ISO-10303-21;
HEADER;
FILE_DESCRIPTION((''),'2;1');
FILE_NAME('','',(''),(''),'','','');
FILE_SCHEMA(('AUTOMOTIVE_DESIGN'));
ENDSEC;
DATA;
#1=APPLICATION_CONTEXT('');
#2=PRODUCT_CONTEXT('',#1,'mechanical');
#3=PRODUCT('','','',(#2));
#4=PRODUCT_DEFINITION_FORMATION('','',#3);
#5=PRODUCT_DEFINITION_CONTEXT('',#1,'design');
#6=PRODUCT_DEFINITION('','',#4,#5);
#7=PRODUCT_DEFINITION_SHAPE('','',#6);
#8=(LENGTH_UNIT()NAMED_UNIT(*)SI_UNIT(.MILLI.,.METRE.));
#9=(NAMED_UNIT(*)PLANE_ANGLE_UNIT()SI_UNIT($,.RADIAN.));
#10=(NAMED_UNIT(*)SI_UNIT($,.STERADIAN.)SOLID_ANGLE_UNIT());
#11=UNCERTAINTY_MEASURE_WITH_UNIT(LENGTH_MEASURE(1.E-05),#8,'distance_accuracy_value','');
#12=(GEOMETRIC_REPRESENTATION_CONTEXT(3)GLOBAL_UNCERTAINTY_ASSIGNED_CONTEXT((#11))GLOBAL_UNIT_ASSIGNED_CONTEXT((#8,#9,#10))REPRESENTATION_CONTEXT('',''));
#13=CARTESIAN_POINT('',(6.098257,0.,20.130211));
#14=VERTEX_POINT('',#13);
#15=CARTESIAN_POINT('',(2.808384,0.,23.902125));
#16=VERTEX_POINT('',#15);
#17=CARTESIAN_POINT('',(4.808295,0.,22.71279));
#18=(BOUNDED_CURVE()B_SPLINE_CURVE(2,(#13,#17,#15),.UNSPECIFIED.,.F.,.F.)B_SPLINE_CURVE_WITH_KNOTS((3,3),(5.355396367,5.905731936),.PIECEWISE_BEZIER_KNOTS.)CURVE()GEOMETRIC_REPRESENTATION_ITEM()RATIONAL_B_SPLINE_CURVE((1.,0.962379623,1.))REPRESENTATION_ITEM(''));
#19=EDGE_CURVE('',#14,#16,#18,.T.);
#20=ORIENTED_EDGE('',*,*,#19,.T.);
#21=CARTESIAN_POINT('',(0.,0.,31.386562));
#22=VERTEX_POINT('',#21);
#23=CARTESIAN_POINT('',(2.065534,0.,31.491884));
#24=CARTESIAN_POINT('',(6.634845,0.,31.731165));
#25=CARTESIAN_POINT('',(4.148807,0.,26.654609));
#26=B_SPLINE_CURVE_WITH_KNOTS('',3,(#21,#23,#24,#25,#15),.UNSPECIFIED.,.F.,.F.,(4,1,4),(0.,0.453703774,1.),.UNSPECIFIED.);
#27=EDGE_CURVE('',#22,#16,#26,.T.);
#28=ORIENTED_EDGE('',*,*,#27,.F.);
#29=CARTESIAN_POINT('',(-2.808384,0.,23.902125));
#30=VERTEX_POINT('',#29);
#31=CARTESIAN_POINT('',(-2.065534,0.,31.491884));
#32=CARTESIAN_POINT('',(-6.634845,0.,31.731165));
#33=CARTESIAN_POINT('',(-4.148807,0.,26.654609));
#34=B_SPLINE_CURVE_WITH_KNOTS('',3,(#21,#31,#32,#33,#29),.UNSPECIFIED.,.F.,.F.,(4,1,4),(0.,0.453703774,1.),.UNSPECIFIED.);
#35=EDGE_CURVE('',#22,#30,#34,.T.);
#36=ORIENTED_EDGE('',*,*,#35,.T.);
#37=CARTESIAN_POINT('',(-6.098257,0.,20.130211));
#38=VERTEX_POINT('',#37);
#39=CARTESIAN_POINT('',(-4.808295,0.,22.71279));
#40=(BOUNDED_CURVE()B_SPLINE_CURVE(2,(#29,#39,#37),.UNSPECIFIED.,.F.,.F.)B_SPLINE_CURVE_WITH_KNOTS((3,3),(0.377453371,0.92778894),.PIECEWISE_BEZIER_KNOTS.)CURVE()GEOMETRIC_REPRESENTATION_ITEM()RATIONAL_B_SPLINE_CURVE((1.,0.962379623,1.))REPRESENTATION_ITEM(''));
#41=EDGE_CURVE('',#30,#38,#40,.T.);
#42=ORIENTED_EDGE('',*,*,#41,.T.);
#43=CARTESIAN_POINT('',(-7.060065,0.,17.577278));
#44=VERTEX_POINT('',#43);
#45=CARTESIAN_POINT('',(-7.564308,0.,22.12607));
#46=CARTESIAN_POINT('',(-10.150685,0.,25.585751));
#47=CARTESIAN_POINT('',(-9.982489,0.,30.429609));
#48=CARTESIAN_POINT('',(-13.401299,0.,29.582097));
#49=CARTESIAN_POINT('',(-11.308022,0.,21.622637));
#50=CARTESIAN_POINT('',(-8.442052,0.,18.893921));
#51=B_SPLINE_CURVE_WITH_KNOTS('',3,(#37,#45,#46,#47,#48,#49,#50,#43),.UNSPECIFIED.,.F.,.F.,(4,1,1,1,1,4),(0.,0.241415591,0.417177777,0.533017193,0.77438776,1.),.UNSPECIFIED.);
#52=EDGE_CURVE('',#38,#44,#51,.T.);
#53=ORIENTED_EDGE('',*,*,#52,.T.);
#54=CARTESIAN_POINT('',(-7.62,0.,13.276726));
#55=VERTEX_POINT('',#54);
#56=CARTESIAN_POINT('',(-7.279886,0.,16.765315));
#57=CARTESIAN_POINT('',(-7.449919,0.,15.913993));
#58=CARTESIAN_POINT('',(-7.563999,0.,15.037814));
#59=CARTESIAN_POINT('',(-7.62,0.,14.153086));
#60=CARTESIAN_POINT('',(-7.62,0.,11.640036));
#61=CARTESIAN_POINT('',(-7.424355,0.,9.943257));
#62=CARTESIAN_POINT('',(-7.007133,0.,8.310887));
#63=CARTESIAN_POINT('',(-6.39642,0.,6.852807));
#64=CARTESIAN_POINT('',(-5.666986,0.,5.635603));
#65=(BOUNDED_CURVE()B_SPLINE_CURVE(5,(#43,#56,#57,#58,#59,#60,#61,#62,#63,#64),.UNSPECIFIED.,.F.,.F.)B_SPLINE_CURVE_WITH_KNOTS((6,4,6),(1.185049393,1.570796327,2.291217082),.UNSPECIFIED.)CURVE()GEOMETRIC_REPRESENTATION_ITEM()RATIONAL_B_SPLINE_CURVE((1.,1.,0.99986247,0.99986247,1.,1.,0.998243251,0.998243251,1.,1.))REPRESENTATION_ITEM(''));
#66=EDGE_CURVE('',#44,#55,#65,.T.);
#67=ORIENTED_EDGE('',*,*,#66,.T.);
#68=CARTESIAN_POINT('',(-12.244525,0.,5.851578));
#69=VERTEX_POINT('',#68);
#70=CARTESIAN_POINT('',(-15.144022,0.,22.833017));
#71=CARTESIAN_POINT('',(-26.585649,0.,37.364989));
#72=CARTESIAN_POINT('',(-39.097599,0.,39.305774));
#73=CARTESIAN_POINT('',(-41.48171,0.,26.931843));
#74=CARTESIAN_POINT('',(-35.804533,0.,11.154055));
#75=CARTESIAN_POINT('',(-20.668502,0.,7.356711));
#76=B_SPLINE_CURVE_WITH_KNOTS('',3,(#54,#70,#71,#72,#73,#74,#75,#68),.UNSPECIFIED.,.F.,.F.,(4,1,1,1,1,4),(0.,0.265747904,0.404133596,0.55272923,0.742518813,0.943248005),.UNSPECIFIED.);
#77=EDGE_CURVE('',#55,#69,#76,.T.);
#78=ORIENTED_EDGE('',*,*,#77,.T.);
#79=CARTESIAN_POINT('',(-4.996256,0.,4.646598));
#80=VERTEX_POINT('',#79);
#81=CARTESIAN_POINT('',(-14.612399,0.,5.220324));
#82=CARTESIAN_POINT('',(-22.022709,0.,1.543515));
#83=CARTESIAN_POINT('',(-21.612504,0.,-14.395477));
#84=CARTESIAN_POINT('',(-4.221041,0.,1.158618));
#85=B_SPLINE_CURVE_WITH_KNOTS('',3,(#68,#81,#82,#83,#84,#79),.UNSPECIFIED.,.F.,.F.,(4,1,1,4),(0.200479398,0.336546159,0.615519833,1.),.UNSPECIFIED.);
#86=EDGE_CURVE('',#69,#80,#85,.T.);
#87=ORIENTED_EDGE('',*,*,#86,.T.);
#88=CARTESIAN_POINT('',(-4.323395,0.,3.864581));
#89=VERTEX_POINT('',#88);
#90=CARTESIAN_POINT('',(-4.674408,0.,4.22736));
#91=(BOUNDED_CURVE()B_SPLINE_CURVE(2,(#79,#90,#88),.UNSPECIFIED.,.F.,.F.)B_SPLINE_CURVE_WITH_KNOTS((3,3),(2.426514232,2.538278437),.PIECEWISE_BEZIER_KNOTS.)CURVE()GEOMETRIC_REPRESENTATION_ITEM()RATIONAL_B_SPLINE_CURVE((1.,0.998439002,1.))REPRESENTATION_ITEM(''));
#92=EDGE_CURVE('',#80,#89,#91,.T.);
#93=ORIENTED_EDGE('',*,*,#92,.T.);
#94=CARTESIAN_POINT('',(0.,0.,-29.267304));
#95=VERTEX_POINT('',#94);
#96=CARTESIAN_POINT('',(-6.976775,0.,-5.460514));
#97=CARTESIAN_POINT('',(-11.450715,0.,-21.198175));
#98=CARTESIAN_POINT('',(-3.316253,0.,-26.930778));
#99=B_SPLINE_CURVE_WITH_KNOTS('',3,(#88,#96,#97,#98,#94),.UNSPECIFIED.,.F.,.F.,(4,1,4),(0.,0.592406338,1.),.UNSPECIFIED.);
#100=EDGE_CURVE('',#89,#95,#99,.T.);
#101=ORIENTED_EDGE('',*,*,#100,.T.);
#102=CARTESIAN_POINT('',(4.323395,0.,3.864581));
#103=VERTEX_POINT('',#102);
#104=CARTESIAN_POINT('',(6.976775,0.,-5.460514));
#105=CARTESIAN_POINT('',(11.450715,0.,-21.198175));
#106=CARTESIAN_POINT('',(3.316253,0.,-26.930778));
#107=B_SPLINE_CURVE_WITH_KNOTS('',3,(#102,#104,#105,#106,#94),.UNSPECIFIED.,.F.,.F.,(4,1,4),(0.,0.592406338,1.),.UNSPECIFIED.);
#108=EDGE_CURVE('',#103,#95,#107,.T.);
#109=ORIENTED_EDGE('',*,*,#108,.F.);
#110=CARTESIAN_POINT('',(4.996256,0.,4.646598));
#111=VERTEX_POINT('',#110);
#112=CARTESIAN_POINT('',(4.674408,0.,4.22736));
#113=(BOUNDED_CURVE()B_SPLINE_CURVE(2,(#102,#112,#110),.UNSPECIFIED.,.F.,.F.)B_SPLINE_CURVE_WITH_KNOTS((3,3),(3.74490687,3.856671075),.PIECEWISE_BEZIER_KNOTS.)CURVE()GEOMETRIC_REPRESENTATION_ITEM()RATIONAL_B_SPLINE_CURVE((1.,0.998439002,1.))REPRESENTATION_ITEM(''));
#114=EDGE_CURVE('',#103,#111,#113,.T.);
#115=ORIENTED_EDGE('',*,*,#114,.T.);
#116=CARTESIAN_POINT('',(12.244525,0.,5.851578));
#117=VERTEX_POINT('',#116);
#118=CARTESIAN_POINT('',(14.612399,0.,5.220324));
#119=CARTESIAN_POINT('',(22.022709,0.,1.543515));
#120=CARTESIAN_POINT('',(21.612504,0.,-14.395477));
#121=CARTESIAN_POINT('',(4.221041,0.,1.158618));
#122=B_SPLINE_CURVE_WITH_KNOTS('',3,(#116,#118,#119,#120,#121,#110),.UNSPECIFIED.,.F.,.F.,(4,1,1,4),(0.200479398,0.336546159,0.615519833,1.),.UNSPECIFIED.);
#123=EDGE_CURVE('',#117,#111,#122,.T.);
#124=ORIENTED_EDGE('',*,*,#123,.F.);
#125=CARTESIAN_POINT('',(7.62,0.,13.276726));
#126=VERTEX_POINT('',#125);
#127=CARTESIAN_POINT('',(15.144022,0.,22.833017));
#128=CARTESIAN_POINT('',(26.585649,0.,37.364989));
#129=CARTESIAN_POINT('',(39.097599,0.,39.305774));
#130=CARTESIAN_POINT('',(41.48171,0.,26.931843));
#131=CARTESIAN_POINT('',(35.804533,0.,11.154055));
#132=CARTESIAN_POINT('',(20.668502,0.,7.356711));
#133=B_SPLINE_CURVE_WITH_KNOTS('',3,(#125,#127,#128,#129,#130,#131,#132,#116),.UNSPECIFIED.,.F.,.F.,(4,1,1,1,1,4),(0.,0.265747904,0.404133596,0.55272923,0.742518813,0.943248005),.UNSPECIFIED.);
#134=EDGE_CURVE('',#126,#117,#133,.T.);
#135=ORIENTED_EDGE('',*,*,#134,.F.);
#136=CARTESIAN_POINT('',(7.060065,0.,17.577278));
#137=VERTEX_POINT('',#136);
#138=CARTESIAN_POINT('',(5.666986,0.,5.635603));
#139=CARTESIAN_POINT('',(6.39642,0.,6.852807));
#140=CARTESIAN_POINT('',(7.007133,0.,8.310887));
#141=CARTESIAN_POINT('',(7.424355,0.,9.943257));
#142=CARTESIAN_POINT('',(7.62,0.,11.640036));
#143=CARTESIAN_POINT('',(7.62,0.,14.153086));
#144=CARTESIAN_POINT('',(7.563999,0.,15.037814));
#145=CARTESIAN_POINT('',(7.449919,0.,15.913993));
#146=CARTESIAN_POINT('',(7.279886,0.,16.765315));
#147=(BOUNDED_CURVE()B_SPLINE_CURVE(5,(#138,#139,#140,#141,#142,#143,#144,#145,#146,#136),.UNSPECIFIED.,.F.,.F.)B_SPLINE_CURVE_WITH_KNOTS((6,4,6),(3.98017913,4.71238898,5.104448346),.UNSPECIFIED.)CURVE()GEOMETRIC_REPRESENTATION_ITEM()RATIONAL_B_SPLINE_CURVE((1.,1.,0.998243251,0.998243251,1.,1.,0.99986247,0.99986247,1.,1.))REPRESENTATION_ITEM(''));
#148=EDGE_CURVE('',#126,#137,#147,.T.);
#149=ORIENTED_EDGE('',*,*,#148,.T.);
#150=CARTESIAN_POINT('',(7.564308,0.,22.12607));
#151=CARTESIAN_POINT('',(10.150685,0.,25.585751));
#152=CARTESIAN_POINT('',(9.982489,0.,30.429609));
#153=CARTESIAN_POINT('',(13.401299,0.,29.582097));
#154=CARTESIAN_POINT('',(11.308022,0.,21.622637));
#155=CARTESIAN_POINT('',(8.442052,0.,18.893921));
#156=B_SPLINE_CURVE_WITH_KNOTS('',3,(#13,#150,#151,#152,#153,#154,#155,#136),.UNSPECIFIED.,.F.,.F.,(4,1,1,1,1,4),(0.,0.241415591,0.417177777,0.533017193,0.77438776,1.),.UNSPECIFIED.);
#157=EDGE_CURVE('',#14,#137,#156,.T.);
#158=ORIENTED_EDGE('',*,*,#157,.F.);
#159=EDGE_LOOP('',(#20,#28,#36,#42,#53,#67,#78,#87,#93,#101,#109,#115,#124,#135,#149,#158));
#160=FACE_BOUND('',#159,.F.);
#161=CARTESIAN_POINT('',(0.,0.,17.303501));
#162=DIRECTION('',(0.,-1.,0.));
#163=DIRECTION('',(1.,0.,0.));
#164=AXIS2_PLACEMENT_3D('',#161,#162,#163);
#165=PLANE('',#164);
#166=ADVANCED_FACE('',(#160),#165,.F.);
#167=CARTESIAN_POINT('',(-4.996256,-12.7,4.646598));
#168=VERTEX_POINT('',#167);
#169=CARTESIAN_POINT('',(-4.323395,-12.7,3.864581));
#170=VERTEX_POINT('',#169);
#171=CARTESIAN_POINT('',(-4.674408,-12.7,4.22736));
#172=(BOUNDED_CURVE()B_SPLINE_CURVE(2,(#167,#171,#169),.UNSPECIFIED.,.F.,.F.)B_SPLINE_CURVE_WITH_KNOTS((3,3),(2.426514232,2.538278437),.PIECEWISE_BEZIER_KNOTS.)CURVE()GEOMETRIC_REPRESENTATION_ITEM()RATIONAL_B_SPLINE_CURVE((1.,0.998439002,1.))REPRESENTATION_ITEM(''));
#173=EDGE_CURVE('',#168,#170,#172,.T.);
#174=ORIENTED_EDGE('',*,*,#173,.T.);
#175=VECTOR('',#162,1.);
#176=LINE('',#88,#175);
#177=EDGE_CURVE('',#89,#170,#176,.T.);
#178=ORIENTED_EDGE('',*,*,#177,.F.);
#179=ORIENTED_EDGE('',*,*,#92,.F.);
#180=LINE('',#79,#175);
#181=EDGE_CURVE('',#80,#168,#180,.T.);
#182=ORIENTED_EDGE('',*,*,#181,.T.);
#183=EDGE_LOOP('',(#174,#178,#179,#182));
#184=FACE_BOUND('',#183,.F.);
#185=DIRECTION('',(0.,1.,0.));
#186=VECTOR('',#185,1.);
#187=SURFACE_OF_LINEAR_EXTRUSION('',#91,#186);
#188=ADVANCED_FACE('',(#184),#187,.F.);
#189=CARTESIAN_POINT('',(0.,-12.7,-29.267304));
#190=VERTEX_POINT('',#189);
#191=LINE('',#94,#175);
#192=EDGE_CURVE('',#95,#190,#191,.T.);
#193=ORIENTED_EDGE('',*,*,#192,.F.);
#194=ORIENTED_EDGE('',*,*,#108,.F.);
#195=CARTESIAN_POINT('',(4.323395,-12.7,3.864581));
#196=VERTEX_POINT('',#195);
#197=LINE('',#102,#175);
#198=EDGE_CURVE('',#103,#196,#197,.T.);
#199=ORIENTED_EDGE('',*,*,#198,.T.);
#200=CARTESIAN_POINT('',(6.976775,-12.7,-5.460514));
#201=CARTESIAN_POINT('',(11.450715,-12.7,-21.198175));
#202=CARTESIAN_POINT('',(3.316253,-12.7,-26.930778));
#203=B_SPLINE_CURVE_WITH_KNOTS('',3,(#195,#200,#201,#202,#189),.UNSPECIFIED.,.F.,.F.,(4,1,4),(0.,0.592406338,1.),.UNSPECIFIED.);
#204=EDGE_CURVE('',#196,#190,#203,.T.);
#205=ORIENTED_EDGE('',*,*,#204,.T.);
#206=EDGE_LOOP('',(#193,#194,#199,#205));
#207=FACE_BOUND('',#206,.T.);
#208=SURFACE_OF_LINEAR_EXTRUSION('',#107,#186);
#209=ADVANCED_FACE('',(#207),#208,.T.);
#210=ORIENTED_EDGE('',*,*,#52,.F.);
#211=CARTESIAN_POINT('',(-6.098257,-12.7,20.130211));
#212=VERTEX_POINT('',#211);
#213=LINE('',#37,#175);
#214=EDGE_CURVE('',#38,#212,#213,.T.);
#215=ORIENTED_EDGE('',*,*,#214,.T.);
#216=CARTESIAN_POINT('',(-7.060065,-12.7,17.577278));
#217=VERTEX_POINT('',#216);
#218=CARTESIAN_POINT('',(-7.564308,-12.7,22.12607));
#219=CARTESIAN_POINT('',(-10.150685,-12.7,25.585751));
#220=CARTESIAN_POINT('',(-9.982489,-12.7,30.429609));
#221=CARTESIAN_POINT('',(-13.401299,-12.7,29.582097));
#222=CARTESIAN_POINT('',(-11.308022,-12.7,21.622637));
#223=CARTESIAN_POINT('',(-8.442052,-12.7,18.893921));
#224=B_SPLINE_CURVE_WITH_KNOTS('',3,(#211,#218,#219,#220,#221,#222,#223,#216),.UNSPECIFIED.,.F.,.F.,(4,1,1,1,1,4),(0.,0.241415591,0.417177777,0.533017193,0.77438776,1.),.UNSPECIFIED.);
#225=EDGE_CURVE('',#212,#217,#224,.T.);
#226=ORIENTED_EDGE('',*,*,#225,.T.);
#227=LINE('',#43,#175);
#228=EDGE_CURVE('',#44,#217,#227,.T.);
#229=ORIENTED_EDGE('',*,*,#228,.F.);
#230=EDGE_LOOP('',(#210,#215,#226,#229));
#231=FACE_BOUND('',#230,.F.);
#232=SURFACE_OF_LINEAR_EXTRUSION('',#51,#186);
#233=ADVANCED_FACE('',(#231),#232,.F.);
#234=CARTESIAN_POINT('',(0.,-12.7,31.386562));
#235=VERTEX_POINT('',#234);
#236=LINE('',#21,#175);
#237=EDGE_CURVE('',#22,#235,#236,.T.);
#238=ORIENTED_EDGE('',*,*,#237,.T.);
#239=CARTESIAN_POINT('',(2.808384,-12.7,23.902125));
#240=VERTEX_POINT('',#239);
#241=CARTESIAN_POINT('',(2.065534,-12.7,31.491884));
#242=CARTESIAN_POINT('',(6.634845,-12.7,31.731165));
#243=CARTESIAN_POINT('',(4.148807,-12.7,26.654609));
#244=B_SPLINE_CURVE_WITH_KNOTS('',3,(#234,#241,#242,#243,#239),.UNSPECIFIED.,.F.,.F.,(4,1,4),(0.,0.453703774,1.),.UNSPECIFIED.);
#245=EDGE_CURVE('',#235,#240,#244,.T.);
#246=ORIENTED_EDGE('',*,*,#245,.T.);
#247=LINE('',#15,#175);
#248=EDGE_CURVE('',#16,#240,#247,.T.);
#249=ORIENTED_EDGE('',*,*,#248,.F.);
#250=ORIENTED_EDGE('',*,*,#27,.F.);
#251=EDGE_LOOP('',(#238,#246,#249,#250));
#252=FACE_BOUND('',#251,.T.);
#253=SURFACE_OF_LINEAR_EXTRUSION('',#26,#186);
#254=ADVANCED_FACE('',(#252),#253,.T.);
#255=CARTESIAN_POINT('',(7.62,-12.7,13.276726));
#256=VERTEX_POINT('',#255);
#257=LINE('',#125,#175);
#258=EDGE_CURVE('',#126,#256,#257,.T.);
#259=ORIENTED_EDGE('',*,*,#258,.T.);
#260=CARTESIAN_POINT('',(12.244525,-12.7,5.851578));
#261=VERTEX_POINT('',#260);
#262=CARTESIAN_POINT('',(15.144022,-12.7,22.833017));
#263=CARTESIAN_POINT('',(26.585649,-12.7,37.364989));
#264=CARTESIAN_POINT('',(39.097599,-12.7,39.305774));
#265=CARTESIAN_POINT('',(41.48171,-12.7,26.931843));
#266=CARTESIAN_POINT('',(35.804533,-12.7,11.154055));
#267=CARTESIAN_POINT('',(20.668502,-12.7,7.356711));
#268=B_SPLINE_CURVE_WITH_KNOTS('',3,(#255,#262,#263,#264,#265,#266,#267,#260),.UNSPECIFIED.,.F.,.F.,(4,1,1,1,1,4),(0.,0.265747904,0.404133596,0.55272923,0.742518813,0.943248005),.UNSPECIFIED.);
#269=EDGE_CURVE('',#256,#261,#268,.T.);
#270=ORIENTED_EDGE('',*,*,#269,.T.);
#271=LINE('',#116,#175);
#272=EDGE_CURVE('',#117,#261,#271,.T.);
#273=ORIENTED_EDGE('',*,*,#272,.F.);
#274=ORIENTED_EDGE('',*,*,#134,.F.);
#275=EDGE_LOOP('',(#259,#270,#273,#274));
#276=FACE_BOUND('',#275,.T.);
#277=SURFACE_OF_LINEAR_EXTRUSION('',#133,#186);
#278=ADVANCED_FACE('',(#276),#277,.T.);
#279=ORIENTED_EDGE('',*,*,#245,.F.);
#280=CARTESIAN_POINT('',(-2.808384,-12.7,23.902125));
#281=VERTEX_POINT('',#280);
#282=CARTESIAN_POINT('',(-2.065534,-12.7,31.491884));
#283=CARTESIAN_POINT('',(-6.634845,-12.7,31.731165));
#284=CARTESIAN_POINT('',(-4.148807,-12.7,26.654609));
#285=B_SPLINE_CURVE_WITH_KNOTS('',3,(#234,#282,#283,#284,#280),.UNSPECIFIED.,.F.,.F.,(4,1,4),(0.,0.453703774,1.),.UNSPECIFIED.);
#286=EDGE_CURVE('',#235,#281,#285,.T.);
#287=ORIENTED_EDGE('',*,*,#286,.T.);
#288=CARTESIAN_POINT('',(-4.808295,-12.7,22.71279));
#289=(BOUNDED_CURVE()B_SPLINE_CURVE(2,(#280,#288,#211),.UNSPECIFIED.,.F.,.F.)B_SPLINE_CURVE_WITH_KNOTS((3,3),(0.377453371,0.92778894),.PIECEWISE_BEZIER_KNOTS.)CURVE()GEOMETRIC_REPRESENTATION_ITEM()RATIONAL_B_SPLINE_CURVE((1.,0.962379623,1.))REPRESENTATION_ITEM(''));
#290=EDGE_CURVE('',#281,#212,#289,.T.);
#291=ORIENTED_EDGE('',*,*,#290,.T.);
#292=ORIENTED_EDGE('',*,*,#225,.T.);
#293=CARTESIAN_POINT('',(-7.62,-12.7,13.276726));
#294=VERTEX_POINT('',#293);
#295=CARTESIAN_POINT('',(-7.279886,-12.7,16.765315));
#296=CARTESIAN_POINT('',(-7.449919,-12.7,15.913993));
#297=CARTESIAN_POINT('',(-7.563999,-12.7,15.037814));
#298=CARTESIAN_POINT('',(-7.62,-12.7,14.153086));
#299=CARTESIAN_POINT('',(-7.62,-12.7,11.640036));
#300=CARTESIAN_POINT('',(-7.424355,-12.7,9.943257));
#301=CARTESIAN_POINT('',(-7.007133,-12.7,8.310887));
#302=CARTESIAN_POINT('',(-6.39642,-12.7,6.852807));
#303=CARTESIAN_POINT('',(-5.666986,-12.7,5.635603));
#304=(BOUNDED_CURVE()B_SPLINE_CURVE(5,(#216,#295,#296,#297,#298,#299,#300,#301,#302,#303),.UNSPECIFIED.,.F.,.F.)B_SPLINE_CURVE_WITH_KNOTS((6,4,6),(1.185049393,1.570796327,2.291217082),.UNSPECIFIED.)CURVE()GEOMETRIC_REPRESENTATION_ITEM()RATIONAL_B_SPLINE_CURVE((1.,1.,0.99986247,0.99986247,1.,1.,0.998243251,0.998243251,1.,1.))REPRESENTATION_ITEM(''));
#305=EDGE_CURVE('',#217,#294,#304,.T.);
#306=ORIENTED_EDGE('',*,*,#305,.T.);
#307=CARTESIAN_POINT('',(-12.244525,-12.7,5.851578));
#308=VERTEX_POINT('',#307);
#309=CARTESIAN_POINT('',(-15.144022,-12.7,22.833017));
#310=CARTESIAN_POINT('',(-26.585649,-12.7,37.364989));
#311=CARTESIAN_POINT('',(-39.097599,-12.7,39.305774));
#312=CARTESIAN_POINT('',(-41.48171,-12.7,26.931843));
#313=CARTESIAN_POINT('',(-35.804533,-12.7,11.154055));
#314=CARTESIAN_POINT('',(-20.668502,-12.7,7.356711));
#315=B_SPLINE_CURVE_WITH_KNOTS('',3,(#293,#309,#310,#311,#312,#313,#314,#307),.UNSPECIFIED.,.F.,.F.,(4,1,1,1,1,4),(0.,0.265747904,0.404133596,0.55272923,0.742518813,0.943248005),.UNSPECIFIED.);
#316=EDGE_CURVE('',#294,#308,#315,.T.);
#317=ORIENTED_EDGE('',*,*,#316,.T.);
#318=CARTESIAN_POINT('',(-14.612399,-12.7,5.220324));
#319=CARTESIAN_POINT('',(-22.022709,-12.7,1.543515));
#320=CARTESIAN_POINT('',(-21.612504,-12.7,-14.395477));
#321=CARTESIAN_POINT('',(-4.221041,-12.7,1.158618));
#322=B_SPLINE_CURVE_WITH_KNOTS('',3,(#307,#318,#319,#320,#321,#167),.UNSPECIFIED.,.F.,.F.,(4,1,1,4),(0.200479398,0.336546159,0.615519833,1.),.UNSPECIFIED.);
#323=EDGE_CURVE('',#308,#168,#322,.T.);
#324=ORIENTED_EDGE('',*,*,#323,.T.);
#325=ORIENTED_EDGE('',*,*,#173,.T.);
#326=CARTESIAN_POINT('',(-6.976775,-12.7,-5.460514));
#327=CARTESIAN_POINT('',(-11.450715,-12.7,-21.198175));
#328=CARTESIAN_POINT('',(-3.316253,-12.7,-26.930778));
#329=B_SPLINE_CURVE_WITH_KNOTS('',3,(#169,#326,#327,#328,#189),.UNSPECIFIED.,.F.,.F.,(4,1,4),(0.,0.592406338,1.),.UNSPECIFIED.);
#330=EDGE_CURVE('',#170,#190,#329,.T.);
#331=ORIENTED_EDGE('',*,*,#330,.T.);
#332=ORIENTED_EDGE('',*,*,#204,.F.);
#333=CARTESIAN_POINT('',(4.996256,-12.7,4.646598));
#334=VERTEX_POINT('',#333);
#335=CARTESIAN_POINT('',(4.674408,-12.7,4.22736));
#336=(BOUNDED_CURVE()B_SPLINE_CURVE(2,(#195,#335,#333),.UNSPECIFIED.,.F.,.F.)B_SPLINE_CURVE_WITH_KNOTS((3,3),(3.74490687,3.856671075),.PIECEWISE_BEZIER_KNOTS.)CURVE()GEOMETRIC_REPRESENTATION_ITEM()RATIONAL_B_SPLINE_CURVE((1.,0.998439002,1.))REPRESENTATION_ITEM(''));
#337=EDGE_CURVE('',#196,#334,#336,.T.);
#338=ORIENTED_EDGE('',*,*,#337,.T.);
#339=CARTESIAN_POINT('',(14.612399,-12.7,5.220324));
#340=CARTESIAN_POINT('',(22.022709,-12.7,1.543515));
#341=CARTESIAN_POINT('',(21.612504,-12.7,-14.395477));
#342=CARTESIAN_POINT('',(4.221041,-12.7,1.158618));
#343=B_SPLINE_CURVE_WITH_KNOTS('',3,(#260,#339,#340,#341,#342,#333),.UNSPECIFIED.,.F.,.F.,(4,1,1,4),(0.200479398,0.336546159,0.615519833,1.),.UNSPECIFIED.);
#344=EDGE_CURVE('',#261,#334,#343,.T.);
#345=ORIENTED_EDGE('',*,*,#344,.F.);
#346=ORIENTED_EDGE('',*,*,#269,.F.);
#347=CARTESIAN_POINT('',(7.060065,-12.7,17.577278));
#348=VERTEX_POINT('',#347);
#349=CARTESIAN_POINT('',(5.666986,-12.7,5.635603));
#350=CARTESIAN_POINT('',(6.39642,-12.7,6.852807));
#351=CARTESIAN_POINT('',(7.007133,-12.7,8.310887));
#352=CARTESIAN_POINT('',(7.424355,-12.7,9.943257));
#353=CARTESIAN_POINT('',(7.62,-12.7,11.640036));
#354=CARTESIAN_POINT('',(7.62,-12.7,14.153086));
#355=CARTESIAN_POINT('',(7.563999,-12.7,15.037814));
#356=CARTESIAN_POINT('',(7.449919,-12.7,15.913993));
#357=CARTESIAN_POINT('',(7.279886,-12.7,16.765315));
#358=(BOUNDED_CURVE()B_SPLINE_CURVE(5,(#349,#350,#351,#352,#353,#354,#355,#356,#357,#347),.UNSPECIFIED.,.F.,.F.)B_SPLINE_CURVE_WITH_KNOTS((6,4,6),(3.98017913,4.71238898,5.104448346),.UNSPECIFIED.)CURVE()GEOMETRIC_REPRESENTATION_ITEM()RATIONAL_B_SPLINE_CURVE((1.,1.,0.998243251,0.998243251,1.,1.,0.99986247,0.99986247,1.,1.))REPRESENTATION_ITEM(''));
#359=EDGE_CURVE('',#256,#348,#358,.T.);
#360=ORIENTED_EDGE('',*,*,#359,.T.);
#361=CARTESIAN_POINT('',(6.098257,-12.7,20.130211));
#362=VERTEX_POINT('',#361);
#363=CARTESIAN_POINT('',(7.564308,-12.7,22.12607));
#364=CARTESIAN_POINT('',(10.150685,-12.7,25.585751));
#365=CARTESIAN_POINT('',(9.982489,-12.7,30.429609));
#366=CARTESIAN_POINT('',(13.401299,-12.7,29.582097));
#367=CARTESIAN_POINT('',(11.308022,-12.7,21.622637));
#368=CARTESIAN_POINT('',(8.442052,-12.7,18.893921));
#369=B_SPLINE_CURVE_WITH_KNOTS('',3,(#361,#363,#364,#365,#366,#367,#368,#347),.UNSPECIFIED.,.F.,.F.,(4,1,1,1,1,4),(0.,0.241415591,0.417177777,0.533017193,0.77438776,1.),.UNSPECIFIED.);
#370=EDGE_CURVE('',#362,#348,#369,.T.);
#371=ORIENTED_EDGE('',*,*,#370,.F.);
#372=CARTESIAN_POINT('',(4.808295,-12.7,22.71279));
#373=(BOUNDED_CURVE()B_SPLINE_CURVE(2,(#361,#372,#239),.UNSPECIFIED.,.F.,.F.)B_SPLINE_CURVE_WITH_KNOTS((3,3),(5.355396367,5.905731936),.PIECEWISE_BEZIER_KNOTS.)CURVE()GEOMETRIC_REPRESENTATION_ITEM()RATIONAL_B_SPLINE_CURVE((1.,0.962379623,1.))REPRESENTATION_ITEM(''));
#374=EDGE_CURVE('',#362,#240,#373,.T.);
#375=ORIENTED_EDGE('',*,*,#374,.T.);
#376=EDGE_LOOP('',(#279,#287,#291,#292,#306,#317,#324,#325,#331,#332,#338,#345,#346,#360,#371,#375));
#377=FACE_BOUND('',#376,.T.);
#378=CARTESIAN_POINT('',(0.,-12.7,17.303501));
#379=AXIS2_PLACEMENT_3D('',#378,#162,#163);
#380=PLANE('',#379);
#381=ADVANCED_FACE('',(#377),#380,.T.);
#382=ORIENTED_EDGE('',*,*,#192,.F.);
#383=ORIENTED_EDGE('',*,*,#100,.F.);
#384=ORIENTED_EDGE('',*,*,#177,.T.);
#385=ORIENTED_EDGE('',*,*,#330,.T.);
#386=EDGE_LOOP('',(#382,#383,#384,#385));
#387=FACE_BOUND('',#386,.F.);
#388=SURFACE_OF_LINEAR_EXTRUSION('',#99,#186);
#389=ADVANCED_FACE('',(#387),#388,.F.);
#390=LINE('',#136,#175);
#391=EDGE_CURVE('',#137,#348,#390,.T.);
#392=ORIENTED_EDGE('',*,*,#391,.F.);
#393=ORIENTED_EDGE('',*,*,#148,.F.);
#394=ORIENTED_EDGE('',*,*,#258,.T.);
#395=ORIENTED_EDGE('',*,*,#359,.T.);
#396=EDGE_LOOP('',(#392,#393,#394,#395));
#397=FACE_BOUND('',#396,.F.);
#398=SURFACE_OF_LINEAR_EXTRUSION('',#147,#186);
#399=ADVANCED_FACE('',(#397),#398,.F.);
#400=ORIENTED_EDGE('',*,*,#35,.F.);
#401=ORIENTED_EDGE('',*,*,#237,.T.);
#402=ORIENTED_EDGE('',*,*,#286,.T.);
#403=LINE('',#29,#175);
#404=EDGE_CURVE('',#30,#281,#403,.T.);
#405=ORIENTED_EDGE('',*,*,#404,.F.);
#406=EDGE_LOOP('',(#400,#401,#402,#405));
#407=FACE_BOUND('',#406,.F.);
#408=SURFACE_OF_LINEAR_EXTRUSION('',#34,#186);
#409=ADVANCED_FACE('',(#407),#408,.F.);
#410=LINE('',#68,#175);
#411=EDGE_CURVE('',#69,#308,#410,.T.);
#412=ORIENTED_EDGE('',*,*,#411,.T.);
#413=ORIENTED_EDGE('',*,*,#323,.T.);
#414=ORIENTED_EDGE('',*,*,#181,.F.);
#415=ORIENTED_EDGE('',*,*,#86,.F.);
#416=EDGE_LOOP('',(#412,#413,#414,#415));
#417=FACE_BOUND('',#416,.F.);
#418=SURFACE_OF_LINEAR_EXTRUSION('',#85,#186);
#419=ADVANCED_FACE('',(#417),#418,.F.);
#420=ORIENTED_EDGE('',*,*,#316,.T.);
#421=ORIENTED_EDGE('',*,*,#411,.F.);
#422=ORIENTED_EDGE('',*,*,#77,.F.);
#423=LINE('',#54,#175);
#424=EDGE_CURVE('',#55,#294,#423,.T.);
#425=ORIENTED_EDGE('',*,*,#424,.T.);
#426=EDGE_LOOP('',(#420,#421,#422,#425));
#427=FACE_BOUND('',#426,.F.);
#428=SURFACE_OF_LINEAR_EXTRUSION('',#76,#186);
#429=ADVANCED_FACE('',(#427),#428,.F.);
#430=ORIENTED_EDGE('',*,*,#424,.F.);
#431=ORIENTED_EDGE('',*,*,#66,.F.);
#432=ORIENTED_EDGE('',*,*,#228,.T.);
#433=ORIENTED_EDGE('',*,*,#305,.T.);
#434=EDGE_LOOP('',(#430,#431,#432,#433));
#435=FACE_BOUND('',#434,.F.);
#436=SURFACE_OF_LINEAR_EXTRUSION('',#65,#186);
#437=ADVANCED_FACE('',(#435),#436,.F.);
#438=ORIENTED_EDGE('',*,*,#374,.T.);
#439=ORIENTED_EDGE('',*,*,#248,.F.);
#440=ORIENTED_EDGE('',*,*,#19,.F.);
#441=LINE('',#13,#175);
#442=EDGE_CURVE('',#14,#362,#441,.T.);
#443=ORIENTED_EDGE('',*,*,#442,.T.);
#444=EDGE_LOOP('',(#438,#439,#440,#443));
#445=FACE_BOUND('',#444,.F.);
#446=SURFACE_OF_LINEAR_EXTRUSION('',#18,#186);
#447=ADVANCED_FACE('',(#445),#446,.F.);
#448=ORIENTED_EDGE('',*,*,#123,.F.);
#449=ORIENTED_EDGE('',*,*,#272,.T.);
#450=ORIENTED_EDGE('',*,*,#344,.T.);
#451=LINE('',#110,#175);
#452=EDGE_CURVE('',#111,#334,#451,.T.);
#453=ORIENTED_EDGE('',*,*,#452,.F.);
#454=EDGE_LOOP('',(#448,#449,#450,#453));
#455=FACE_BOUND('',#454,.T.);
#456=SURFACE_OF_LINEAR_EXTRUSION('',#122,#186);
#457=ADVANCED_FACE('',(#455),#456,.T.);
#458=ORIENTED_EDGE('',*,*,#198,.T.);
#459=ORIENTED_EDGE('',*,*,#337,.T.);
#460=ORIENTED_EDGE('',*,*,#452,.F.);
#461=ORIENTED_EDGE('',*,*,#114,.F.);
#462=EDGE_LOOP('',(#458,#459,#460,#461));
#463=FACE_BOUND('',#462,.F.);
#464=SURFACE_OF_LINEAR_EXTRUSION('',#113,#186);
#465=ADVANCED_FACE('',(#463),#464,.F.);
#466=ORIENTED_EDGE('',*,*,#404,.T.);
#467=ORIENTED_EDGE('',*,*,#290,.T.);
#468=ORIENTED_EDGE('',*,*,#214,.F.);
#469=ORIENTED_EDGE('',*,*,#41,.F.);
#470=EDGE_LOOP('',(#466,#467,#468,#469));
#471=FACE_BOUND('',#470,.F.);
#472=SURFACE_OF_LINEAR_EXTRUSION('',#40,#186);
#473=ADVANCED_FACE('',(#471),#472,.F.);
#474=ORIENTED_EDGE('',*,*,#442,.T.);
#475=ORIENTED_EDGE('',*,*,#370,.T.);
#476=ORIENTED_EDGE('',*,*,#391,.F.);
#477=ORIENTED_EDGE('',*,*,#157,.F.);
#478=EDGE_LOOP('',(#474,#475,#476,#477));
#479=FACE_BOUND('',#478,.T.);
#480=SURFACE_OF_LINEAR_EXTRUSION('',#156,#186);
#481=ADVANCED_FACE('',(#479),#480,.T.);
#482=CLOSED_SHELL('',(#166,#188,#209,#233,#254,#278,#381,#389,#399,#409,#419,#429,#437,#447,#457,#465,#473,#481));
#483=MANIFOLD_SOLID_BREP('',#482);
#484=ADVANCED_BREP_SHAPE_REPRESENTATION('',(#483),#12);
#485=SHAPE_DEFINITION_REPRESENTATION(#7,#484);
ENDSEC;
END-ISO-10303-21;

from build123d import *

# Parameters (mm, degrees)
F1_DEPTH = 12.7


with BuildPart() as f1:
    # F0 (on Front) → F1 (new body)
    with BuildSketch(Plane.XZ):
        with BuildLine():
            add(Edge.make_bspline(
                [(0, 31.3865616918), (-2.0655340881, 31.4918837506), (-6.634844586, 31.7311651918), (-4.1488069667, 26.6546093569), (-2.8083838021, 23.9021250858)],
                knots=[0, 0, 0, 0, 0.4537037737, 1, 1, 1, 1], degree=3))
            add(Edge.make_bspline(
                [(-2.8083838021, 23.9021250858), (-4.8082947595, 22.712789575), (-6.0982565542, 20.1302105598)],
                knots=[0.3774533708, 0.3774533708, 0.3774533708, 0.9277889401, 0.9277889401, 0.9277889401], degree=2, weights=[1, 0.9623796227, 1]))
            add(Edge.make_bspline(
                [(-6.0982565542, 20.1302105598), (-6.6892296984, 18.9470477352), (-7.0600645414, 17.577278223)],
                knots=[0.9277889401, 0.9277889401, 0.9277889401, 1.185049393, 1.185049393, 1.185049393], degree=2, weights=[1, 0.9917385329, 1]))
            add(Edge.make_bspline(
                [(-7.0600645414, 17.577278223), (-7.62, 15.5090191739), (-7.62, 13.27672599)],
                knots=[1.185049393, 1.185049393, 1.185049393, 1.5707963268, 1.5707963268, 1.5707963268], degree=2, weights=[1, 0.981457502, 1]))
            add(Edge.make_bspline(
                [(-7.62, 13.27672599), (-7.62, 8.894591354), (-5.6669856339, 5.6356026364)],
                knots=[1.5707963268, 1.5707963268, 1.5707963268, 2.3030061769, 2.3030061769, 2.3030061769], degree=2, weights=[1, 0.9337287888, 1]))
            add(Edge.make_bspline(
                [(-4.9962559247, 4.6465979403), (-5.0856528667, 5.0488279749), (-5.3193884787, 5.3775731394), (-5.6669856339, 5.6356026364)],
                knots=[0, 0, 0, 0, 0.0443378352, 0.0443378352, 0.0443378352, 0.0443378352], degree=3))
            add(Edge.make_bspline(
                [(-4.9962559247, 4.6465979403), (-4.6744076961, 4.2273595181), (-4.3233952759, 3.8645811813)],
                knots=[2.4265142317, 2.4265142317, 2.4265142317, 2.5382784373, 2.5382784373, 2.5382784373], degree=2, weights=[1, 0.9984390016, 1]))
            add(Edge.make_bspline(
                [(-4.3233952759, 3.8645811813), (0, -0.6037340599), (4.3233952759, 3.8645811813)],
                knots=[2.5382784373, 2.5382784373, 2.5382784373, 3.7449068699, 3.7449068699, 3.7449068699], degree=2, weights=[1, 0.8234597383, 1]))
            add(Edge.make_bspline(
                [(4.3233952759, 3.8645811813), (4.6744076961, 4.2273595181), (4.9962559247, 4.6465979403)],
                knots=[3.7449068699, 3.7449068699, 3.7449068699, 3.8566710755, 3.8566710755, 3.8566710755], degree=2, weights=[1, 0.9984390016, 1]))
            add(Edge.make_bspline(
                [(4.9962559247, 4.6465979403), (5.0856528667, 5.0488279749), (5.3193884787, 5.3775731394), (5.6669856339, 5.6356026364)],
                knots=[0, 0, 0, 0, 0.0443378352, 0.0443378352, 0.0443378352, 0.0443378352], degree=3))
            add(Edge.make_bspline(
                [(5.6669856339, 5.6356026364), (7.62, 8.894591354), (7.62, 13.27672599)],
                knots=[3.9801791303, 3.9801791303, 3.9801791303, 4.7123889804, 4.7123889804, 4.7123889804], degree=2, weights=[1, 0.9337287888, 1]))
            add(Edge.make_bspline(
                [(7.62, 13.27672599), (7.62, 15.5090191739), (7.0600645414, 17.577278223)],
                knots=[4.7123889804, 4.7123889804, 4.7123889804, 5.0981359142, 5.0981359142, 5.0981359142], degree=2, weights=[1, 0.981457502, 1]))
            add(Edge.make_bspline(
                [(7.0600645414, 17.577278223), (6.6892296984, 18.9470477352), (6.0982565542, 20.1302105598)],
                knots=[5.0981359142, 5.0981359142, 5.0981359142, 5.3553963671, 5.3553963671, 5.3553963671], degree=2, weights=[1, 0.9917385329, 1]))
            add(Edge.make_bspline(
                [(6.0982565542, 20.1302105598), (4.8082947595, 22.712789575), (2.8083838021, 23.9021250858)],
                knots=[5.3553963671, 5.3553963671, 5.3553963671, 5.9057319364, 5.9057319364, 5.9057319364], degree=2, weights=[1, 0.9623796227, 1]))
            add(Edge.make_bspline(
                [(0, 31.3865616918), (2.0655340881, 31.4918837506), (6.634844586, 31.7311651918), (4.1488069667, 26.6546093569), (2.8083838021, 23.9021250858)],
                knots=[0, 0, 0, 0, 0.4537037737, 1, 1, 1, 1], degree=3))
        make_face()
        with BuildLine():
            add(Edge.make_bspline(
                [(-6.0982565542, 20.1302105598), (-6.6892296984, 18.9470477352), (-7.0600645414, 17.577278223)],
                knots=[0.9277889401, 0.9277889401, 0.9277889401, 1.185049393, 1.185049393, 1.185049393], degree=2, weights=[1, 0.9917385329, 1]))
            add(Edge.make_bspline(
                [(-6.0982565542, 20.1302105598), (-7.5643079924, 22.1260703983), (-10.1506851165, 25.5857514556), (-9.9824893314, 30.4296094526), (-13.4012985052, 29.5820970466), (-11.3080222158, 21.622637187), (-8.4420520744, 18.8939212431), (-7.0600645414, 17.577278223)],
                knots=[0, 0, 0, 0, 0.2414155906, 0.4171777767, 0.5330171927, 0.7743877598, 1, 1, 1, 1], degree=3))
        make_face()
        with BuildLine():
            add(Edge.make_bspline(
                [(-7.62, 13.27672599), (-7.62, 8.894591354), (-5.6669856339, 5.6356026364)],
                knots=[1.5707963268, 1.5707963268, 1.5707963268, 2.3030061769, 2.3030061769, 2.3030061769], degree=2, weights=[1, 0.9337287888, 1]))
            add(Edge.make_bspline(
                [(-7.62, 13.27672599), (-15.1440219955, 22.8330174334), (-26.585649407, 37.3649890556), (-39.0975989286, 39.3057743439), (-41.4817104262, 26.9318430105), (-35.8045326053, 11.1540546771), (-20.6685019346, 7.35671091), (-12.2445248707, 5.8515775658)],
                knots=[0, 0, 0, 0, 0.2657479043, 0.4041335963, 0.5527292296, 0.7425188129, 0.9432480046, 0.9432480046, 0.9432480046, 0.9432480046], degree=3))
            add(Edge.make_bspline(
                [(-5.6669856339, 5.6356026364), (-6.8910950834, 6.5442877068), (-9.5273035137, 6.5759644472), (-12.2445248707, 5.8515775658)],
                knots=[0.0443378352, 0.0443378352, 0.0443378352, 0.0443378352, 0.2004793982, 0.2004793982, 0.2004793982, 0.2004793982], degree=3))
        make_face()
        with BuildLine():
            add(Edge.make_bspline(
                [(6.0982565542, 20.1302105598), (7.5643079924, 22.1260703983), (10.1506851165, 25.5857514556), (9.9824893314, 30.4296094526), (13.4012985052, 29.5820970466), (11.3080222158, 21.622637187), (8.4420520744, 18.8939212431), (7.0600645414, 17.577278223)],
                knots=[0, 0, 0, 0, 0.2414155906, 0.4171777767, 0.5330171927, 0.7743877598, 1, 1, 1, 1], degree=3))
            add(Edge.make_bspline(
                [(7.0600645414, 17.577278223), (6.6892296984, 18.9470477352), (6.0982565542, 20.1302105598)],
                knots=[5.0981359142, 5.0981359142, 5.0981359142, 5.3553963671, 5.3553963671, 5.3553963671], degree=2, weights=[1, 0.9917385329, 1]))
        make_face()
        with BuildLine():
            add(Edge.make_bspline(
                [(-4.9962559247, 4.6465979403), (-5.0856528667, 5.0488279749), (-5.3193884787, 5.3775731394), (-5.6669856339, 5.6356026364)],
                knots=[0, 0, 0, 0, 0.0443378352, 0.0443378352, 0.0443378352, 0.0443378352], degree=3))
            add(Edge.make_bspline(
                [(-5.6669856339, 5.6356026364), (-5.3520050391, 5.1099955427), (-4.9962559247, 4.6465979403)],
                knots=[2.3030061769, 2.3030061769, 2.3030061769, 2.4265142317, 2.4265142317, 2.4265142317], degree=2, weights=[1, 0.9980938259, 1]))
        make_face()
        with BuildLine():
            add(Edge.make_bspline(
                [(-5.6669856339, 5.6356026364), (-5.3520050391, 5.1099955427), (-4.9962559247, 4.6465979403)],
                knots=[2.3030061769, 2.3030061769, 2.3030061769, 2.4265142317, 2.4265142317, 2.4265142317], degree=2, weights=[1, 0.9980938259, 1]))
            add(Edge.make_bspline(
                [(-5.6669856339, 5.6356026364), (-6.8910950834, 6.5442877068), (-9.5273035137, 6.5759644472), (-12.2445248707, 5.8515775658)],
                knots=[0.0443378352, 0.0443378352, 0.0443378352, 0.0443378352, 0.2004793982, 0.2004793982, 0.2004793982, 0.2004793982], degree=3))
            add(Edge.make_bspline(
                [(-12.2445248707, 5.8515775658), (-9.8628209286, 5.4260324827), (-7.4296416397, 5.0361967946), (-4.9962559247, 4.6465979403)],
                knots=[0.9432480046, 0.9432480046, 0.9432480046, 0.9432480046, 1, 1, 1, 1], degree=3))
        make_face()
        with BuildLine():
            add(Edge.make_bspline(
                [(-12.2445248707, 5.8515775658), (-9.8628209286, 5.4260324827), (-7.4296416397, 5.0361967946), (-4.9962559247, 4.6465979403)],
                knots=[0.9432480046, 0.9432480046, 0.9432480046, 0.9432480046, 1, 1, 1, 1], degree=3))
            add(Edge.make_bspline(
                [(-12.2445248707, 5.8515775658), (-14.6123986306, 5.2203236253), (-22.0227090607, 1.5435153833), (-21.6125040968, -14.3954766465), (-4.2210410106, 1.1586182079), (-4.9962559247, 4.6465979403)],
                knots=[0.2004793982, 0.2004793982, 0.2004793982, 0.2004793982, 0.3365461594, 0.6155198334, 1, 1, 1, 1], degree=3))
        make_face()
        with BuildLine():
            add(Edge.make_bspline(
                [(7.62, 13.27672599), (15.1440219955, 22.8330174334), (26.585649407, 37.3649890556), (39.0975989286, 39.3057743439), (41.4817104262, 26.9318430105), (35.8045326053, 11.1540546771), (20.6685019346, 7.35671091), (12.2445248707, 5.8515775658)],
                knots=[0, 0, 0, 0, 0.2657479043, 0.4041335963, 0.5527292296, 0.7425188129, 0.9432480046, 0.9432480046, 0.9432480046, 0.9432480046], degree=3))
            add(Edge.make_bspline(
                [(5.6669856339, 5.6356026364), (7.62, 8.894591354), (7.62, 13.27672599)],
                knots=[3.9801791303, 3.9801791303, 3.9801791303, 4.7123889804, 4.7123889804, 4.7123889804], degree=2, weights=[1, 0.9337287888, 1]))
            add(Edge.make_bspline(
                [(5.6669856339, 5.6356026364), (6.8910950834, 6.5442877068), (9.5273035137, 6.5759644472), (12.2445248707, 5.8515775658)],
                knots=[0.0443378352, 0.0443378352, 0.0443378352, 0.0443378352, 0.2004793982, 0.2004793982, 0.2004793982, 0.2004793982], degree=3))
        make_face()
        with BuildLine():
            add(Edge.make_bspline(
                [(-4.3233952759, 3.8645811813), (0, -0.6037340599), (4.3233952759, 3.8645811813)],
                knots=[2.5382784373, 2.5382784373, 2.5382784373, 3.7449068699, 3.7449068699, 3.7449068699], degree=2, weights=[1, 0.8234597383, 1]))
            add(Edge.make_bspline(
                [(-4.3233952759, 3.8645811813), (-6.9767750064, -5.4605141274), (-11.4507153928, -21.1981754652), (-3.3162525338, -26.9307779918), (0, -29.2673036456)],
                knots=[0, 0, 0, 0, 0.5924063383, 1, 1, 1, 1], degree=3))
            add(Edge.make_bspline(
                [(4.3233952759, 3.8645811813), (6.9767750064, -5.4605141274), (11.4507153928, -21.1981754652), (3.3162525338, -26.9307779918), (0, -29.2673036456)],
                knots=[0, 0, 0, 0, 0.5924063383, 1, 1, 1, 1], degree=3))
        make_face()
        with BuildLine():
            add(Edge.make_bspline(
                [(5.6669856339, 5.6356026364), (6.8910950834, 6.5442877068), (9.5273035137, 6.5759644472), (12.2445248707, 5.8515775658)],
                knots=[0.0443378352, 0.0443378352, 0.0443378352, 0.0443378352, 0.2004793982, 0.2004793982, 0.2004793982, 0.2004793982], degree=3))
            add(Edge.make_bspline(
                [(4.9962559247, 4.6465979403), (5.3520050391, 5.1099955427), (5.6669856339, 5.6356026364)],
                knots=[3.8566710755, 3.8566710755, 3.8566710755, 3.9801791303, 3.9801791303, 3.9801791303], degree=2, weights=[1, 0.9980938259, 1]))
            add(Edge.make_bspline(
                [(12.2445248707, 5.8515775658), (9.8628209286, 5.4260324827), (7.4296416397, 5.0361967946), (4.9962559247, 4.6465979403)],
                knots=[0.9432480046, 0.9432480046, 0.9432480046, 0.9432480046, 1, 1, 1, 1], degree=3))
        make_face()
        with BuildLine():
            add(Edge.make_bspline(
                [(4.9962559247, 4.6465979403), (5.3520050391, 5.1099955427), (5.6669856339, 5.6356026364)],
                knots=[3.8566710755, 3.8566710755, 3.8566710755, 3.9801791303, 3.9801791303, 3.9801791303], degree=2, weights=[1, 0.9980938259, 1]))
            add(Edge.make_bspline(
                [(4.9962559247, 4.6465979403), (5.0856528667, 5.0488279749), (5.3193884787, 5.3775731394), (5.6669856339, 5.6356026364)],
                knots=[0, 0, 0, 0, 0.0443378352, 0.0443378352, 0.0443378352, 0.0443378352], degree=3))
        make_face()
        with BuildLine():
            add(Edge.make_bspline(
                [(12.2445248707, 5.8515775658), (14.6123986306, 5.2203236253), (22.0227090607, 1.5435153833), (21.6125040968, -14.3954766465), (4.2210410106, 1.1586182079), (4.9962559247, 4.6465979403)],
                knots=[0.2004793982, 0.2004793982, 0.2004793982, 0.2004793982, 0.3365461594, 0.6155198334, 1, 1, 1, 1], degree=3))
            add(Edge.make_bspline(
                [(12.2445248707, 5.8515775658), (9.8628209286, 5.4260324827), (7.4296416397, 5.0361967946), (4.9962559247, 4.6465979403)],
                knots=[0.9432480046, 0.9432480046, 0.9432480046, 0.9432480046, 1, 1, 1, 1], degree=3))
        make_face()
    extrude(amount=F1_DEPTH)


solid = f1.part
